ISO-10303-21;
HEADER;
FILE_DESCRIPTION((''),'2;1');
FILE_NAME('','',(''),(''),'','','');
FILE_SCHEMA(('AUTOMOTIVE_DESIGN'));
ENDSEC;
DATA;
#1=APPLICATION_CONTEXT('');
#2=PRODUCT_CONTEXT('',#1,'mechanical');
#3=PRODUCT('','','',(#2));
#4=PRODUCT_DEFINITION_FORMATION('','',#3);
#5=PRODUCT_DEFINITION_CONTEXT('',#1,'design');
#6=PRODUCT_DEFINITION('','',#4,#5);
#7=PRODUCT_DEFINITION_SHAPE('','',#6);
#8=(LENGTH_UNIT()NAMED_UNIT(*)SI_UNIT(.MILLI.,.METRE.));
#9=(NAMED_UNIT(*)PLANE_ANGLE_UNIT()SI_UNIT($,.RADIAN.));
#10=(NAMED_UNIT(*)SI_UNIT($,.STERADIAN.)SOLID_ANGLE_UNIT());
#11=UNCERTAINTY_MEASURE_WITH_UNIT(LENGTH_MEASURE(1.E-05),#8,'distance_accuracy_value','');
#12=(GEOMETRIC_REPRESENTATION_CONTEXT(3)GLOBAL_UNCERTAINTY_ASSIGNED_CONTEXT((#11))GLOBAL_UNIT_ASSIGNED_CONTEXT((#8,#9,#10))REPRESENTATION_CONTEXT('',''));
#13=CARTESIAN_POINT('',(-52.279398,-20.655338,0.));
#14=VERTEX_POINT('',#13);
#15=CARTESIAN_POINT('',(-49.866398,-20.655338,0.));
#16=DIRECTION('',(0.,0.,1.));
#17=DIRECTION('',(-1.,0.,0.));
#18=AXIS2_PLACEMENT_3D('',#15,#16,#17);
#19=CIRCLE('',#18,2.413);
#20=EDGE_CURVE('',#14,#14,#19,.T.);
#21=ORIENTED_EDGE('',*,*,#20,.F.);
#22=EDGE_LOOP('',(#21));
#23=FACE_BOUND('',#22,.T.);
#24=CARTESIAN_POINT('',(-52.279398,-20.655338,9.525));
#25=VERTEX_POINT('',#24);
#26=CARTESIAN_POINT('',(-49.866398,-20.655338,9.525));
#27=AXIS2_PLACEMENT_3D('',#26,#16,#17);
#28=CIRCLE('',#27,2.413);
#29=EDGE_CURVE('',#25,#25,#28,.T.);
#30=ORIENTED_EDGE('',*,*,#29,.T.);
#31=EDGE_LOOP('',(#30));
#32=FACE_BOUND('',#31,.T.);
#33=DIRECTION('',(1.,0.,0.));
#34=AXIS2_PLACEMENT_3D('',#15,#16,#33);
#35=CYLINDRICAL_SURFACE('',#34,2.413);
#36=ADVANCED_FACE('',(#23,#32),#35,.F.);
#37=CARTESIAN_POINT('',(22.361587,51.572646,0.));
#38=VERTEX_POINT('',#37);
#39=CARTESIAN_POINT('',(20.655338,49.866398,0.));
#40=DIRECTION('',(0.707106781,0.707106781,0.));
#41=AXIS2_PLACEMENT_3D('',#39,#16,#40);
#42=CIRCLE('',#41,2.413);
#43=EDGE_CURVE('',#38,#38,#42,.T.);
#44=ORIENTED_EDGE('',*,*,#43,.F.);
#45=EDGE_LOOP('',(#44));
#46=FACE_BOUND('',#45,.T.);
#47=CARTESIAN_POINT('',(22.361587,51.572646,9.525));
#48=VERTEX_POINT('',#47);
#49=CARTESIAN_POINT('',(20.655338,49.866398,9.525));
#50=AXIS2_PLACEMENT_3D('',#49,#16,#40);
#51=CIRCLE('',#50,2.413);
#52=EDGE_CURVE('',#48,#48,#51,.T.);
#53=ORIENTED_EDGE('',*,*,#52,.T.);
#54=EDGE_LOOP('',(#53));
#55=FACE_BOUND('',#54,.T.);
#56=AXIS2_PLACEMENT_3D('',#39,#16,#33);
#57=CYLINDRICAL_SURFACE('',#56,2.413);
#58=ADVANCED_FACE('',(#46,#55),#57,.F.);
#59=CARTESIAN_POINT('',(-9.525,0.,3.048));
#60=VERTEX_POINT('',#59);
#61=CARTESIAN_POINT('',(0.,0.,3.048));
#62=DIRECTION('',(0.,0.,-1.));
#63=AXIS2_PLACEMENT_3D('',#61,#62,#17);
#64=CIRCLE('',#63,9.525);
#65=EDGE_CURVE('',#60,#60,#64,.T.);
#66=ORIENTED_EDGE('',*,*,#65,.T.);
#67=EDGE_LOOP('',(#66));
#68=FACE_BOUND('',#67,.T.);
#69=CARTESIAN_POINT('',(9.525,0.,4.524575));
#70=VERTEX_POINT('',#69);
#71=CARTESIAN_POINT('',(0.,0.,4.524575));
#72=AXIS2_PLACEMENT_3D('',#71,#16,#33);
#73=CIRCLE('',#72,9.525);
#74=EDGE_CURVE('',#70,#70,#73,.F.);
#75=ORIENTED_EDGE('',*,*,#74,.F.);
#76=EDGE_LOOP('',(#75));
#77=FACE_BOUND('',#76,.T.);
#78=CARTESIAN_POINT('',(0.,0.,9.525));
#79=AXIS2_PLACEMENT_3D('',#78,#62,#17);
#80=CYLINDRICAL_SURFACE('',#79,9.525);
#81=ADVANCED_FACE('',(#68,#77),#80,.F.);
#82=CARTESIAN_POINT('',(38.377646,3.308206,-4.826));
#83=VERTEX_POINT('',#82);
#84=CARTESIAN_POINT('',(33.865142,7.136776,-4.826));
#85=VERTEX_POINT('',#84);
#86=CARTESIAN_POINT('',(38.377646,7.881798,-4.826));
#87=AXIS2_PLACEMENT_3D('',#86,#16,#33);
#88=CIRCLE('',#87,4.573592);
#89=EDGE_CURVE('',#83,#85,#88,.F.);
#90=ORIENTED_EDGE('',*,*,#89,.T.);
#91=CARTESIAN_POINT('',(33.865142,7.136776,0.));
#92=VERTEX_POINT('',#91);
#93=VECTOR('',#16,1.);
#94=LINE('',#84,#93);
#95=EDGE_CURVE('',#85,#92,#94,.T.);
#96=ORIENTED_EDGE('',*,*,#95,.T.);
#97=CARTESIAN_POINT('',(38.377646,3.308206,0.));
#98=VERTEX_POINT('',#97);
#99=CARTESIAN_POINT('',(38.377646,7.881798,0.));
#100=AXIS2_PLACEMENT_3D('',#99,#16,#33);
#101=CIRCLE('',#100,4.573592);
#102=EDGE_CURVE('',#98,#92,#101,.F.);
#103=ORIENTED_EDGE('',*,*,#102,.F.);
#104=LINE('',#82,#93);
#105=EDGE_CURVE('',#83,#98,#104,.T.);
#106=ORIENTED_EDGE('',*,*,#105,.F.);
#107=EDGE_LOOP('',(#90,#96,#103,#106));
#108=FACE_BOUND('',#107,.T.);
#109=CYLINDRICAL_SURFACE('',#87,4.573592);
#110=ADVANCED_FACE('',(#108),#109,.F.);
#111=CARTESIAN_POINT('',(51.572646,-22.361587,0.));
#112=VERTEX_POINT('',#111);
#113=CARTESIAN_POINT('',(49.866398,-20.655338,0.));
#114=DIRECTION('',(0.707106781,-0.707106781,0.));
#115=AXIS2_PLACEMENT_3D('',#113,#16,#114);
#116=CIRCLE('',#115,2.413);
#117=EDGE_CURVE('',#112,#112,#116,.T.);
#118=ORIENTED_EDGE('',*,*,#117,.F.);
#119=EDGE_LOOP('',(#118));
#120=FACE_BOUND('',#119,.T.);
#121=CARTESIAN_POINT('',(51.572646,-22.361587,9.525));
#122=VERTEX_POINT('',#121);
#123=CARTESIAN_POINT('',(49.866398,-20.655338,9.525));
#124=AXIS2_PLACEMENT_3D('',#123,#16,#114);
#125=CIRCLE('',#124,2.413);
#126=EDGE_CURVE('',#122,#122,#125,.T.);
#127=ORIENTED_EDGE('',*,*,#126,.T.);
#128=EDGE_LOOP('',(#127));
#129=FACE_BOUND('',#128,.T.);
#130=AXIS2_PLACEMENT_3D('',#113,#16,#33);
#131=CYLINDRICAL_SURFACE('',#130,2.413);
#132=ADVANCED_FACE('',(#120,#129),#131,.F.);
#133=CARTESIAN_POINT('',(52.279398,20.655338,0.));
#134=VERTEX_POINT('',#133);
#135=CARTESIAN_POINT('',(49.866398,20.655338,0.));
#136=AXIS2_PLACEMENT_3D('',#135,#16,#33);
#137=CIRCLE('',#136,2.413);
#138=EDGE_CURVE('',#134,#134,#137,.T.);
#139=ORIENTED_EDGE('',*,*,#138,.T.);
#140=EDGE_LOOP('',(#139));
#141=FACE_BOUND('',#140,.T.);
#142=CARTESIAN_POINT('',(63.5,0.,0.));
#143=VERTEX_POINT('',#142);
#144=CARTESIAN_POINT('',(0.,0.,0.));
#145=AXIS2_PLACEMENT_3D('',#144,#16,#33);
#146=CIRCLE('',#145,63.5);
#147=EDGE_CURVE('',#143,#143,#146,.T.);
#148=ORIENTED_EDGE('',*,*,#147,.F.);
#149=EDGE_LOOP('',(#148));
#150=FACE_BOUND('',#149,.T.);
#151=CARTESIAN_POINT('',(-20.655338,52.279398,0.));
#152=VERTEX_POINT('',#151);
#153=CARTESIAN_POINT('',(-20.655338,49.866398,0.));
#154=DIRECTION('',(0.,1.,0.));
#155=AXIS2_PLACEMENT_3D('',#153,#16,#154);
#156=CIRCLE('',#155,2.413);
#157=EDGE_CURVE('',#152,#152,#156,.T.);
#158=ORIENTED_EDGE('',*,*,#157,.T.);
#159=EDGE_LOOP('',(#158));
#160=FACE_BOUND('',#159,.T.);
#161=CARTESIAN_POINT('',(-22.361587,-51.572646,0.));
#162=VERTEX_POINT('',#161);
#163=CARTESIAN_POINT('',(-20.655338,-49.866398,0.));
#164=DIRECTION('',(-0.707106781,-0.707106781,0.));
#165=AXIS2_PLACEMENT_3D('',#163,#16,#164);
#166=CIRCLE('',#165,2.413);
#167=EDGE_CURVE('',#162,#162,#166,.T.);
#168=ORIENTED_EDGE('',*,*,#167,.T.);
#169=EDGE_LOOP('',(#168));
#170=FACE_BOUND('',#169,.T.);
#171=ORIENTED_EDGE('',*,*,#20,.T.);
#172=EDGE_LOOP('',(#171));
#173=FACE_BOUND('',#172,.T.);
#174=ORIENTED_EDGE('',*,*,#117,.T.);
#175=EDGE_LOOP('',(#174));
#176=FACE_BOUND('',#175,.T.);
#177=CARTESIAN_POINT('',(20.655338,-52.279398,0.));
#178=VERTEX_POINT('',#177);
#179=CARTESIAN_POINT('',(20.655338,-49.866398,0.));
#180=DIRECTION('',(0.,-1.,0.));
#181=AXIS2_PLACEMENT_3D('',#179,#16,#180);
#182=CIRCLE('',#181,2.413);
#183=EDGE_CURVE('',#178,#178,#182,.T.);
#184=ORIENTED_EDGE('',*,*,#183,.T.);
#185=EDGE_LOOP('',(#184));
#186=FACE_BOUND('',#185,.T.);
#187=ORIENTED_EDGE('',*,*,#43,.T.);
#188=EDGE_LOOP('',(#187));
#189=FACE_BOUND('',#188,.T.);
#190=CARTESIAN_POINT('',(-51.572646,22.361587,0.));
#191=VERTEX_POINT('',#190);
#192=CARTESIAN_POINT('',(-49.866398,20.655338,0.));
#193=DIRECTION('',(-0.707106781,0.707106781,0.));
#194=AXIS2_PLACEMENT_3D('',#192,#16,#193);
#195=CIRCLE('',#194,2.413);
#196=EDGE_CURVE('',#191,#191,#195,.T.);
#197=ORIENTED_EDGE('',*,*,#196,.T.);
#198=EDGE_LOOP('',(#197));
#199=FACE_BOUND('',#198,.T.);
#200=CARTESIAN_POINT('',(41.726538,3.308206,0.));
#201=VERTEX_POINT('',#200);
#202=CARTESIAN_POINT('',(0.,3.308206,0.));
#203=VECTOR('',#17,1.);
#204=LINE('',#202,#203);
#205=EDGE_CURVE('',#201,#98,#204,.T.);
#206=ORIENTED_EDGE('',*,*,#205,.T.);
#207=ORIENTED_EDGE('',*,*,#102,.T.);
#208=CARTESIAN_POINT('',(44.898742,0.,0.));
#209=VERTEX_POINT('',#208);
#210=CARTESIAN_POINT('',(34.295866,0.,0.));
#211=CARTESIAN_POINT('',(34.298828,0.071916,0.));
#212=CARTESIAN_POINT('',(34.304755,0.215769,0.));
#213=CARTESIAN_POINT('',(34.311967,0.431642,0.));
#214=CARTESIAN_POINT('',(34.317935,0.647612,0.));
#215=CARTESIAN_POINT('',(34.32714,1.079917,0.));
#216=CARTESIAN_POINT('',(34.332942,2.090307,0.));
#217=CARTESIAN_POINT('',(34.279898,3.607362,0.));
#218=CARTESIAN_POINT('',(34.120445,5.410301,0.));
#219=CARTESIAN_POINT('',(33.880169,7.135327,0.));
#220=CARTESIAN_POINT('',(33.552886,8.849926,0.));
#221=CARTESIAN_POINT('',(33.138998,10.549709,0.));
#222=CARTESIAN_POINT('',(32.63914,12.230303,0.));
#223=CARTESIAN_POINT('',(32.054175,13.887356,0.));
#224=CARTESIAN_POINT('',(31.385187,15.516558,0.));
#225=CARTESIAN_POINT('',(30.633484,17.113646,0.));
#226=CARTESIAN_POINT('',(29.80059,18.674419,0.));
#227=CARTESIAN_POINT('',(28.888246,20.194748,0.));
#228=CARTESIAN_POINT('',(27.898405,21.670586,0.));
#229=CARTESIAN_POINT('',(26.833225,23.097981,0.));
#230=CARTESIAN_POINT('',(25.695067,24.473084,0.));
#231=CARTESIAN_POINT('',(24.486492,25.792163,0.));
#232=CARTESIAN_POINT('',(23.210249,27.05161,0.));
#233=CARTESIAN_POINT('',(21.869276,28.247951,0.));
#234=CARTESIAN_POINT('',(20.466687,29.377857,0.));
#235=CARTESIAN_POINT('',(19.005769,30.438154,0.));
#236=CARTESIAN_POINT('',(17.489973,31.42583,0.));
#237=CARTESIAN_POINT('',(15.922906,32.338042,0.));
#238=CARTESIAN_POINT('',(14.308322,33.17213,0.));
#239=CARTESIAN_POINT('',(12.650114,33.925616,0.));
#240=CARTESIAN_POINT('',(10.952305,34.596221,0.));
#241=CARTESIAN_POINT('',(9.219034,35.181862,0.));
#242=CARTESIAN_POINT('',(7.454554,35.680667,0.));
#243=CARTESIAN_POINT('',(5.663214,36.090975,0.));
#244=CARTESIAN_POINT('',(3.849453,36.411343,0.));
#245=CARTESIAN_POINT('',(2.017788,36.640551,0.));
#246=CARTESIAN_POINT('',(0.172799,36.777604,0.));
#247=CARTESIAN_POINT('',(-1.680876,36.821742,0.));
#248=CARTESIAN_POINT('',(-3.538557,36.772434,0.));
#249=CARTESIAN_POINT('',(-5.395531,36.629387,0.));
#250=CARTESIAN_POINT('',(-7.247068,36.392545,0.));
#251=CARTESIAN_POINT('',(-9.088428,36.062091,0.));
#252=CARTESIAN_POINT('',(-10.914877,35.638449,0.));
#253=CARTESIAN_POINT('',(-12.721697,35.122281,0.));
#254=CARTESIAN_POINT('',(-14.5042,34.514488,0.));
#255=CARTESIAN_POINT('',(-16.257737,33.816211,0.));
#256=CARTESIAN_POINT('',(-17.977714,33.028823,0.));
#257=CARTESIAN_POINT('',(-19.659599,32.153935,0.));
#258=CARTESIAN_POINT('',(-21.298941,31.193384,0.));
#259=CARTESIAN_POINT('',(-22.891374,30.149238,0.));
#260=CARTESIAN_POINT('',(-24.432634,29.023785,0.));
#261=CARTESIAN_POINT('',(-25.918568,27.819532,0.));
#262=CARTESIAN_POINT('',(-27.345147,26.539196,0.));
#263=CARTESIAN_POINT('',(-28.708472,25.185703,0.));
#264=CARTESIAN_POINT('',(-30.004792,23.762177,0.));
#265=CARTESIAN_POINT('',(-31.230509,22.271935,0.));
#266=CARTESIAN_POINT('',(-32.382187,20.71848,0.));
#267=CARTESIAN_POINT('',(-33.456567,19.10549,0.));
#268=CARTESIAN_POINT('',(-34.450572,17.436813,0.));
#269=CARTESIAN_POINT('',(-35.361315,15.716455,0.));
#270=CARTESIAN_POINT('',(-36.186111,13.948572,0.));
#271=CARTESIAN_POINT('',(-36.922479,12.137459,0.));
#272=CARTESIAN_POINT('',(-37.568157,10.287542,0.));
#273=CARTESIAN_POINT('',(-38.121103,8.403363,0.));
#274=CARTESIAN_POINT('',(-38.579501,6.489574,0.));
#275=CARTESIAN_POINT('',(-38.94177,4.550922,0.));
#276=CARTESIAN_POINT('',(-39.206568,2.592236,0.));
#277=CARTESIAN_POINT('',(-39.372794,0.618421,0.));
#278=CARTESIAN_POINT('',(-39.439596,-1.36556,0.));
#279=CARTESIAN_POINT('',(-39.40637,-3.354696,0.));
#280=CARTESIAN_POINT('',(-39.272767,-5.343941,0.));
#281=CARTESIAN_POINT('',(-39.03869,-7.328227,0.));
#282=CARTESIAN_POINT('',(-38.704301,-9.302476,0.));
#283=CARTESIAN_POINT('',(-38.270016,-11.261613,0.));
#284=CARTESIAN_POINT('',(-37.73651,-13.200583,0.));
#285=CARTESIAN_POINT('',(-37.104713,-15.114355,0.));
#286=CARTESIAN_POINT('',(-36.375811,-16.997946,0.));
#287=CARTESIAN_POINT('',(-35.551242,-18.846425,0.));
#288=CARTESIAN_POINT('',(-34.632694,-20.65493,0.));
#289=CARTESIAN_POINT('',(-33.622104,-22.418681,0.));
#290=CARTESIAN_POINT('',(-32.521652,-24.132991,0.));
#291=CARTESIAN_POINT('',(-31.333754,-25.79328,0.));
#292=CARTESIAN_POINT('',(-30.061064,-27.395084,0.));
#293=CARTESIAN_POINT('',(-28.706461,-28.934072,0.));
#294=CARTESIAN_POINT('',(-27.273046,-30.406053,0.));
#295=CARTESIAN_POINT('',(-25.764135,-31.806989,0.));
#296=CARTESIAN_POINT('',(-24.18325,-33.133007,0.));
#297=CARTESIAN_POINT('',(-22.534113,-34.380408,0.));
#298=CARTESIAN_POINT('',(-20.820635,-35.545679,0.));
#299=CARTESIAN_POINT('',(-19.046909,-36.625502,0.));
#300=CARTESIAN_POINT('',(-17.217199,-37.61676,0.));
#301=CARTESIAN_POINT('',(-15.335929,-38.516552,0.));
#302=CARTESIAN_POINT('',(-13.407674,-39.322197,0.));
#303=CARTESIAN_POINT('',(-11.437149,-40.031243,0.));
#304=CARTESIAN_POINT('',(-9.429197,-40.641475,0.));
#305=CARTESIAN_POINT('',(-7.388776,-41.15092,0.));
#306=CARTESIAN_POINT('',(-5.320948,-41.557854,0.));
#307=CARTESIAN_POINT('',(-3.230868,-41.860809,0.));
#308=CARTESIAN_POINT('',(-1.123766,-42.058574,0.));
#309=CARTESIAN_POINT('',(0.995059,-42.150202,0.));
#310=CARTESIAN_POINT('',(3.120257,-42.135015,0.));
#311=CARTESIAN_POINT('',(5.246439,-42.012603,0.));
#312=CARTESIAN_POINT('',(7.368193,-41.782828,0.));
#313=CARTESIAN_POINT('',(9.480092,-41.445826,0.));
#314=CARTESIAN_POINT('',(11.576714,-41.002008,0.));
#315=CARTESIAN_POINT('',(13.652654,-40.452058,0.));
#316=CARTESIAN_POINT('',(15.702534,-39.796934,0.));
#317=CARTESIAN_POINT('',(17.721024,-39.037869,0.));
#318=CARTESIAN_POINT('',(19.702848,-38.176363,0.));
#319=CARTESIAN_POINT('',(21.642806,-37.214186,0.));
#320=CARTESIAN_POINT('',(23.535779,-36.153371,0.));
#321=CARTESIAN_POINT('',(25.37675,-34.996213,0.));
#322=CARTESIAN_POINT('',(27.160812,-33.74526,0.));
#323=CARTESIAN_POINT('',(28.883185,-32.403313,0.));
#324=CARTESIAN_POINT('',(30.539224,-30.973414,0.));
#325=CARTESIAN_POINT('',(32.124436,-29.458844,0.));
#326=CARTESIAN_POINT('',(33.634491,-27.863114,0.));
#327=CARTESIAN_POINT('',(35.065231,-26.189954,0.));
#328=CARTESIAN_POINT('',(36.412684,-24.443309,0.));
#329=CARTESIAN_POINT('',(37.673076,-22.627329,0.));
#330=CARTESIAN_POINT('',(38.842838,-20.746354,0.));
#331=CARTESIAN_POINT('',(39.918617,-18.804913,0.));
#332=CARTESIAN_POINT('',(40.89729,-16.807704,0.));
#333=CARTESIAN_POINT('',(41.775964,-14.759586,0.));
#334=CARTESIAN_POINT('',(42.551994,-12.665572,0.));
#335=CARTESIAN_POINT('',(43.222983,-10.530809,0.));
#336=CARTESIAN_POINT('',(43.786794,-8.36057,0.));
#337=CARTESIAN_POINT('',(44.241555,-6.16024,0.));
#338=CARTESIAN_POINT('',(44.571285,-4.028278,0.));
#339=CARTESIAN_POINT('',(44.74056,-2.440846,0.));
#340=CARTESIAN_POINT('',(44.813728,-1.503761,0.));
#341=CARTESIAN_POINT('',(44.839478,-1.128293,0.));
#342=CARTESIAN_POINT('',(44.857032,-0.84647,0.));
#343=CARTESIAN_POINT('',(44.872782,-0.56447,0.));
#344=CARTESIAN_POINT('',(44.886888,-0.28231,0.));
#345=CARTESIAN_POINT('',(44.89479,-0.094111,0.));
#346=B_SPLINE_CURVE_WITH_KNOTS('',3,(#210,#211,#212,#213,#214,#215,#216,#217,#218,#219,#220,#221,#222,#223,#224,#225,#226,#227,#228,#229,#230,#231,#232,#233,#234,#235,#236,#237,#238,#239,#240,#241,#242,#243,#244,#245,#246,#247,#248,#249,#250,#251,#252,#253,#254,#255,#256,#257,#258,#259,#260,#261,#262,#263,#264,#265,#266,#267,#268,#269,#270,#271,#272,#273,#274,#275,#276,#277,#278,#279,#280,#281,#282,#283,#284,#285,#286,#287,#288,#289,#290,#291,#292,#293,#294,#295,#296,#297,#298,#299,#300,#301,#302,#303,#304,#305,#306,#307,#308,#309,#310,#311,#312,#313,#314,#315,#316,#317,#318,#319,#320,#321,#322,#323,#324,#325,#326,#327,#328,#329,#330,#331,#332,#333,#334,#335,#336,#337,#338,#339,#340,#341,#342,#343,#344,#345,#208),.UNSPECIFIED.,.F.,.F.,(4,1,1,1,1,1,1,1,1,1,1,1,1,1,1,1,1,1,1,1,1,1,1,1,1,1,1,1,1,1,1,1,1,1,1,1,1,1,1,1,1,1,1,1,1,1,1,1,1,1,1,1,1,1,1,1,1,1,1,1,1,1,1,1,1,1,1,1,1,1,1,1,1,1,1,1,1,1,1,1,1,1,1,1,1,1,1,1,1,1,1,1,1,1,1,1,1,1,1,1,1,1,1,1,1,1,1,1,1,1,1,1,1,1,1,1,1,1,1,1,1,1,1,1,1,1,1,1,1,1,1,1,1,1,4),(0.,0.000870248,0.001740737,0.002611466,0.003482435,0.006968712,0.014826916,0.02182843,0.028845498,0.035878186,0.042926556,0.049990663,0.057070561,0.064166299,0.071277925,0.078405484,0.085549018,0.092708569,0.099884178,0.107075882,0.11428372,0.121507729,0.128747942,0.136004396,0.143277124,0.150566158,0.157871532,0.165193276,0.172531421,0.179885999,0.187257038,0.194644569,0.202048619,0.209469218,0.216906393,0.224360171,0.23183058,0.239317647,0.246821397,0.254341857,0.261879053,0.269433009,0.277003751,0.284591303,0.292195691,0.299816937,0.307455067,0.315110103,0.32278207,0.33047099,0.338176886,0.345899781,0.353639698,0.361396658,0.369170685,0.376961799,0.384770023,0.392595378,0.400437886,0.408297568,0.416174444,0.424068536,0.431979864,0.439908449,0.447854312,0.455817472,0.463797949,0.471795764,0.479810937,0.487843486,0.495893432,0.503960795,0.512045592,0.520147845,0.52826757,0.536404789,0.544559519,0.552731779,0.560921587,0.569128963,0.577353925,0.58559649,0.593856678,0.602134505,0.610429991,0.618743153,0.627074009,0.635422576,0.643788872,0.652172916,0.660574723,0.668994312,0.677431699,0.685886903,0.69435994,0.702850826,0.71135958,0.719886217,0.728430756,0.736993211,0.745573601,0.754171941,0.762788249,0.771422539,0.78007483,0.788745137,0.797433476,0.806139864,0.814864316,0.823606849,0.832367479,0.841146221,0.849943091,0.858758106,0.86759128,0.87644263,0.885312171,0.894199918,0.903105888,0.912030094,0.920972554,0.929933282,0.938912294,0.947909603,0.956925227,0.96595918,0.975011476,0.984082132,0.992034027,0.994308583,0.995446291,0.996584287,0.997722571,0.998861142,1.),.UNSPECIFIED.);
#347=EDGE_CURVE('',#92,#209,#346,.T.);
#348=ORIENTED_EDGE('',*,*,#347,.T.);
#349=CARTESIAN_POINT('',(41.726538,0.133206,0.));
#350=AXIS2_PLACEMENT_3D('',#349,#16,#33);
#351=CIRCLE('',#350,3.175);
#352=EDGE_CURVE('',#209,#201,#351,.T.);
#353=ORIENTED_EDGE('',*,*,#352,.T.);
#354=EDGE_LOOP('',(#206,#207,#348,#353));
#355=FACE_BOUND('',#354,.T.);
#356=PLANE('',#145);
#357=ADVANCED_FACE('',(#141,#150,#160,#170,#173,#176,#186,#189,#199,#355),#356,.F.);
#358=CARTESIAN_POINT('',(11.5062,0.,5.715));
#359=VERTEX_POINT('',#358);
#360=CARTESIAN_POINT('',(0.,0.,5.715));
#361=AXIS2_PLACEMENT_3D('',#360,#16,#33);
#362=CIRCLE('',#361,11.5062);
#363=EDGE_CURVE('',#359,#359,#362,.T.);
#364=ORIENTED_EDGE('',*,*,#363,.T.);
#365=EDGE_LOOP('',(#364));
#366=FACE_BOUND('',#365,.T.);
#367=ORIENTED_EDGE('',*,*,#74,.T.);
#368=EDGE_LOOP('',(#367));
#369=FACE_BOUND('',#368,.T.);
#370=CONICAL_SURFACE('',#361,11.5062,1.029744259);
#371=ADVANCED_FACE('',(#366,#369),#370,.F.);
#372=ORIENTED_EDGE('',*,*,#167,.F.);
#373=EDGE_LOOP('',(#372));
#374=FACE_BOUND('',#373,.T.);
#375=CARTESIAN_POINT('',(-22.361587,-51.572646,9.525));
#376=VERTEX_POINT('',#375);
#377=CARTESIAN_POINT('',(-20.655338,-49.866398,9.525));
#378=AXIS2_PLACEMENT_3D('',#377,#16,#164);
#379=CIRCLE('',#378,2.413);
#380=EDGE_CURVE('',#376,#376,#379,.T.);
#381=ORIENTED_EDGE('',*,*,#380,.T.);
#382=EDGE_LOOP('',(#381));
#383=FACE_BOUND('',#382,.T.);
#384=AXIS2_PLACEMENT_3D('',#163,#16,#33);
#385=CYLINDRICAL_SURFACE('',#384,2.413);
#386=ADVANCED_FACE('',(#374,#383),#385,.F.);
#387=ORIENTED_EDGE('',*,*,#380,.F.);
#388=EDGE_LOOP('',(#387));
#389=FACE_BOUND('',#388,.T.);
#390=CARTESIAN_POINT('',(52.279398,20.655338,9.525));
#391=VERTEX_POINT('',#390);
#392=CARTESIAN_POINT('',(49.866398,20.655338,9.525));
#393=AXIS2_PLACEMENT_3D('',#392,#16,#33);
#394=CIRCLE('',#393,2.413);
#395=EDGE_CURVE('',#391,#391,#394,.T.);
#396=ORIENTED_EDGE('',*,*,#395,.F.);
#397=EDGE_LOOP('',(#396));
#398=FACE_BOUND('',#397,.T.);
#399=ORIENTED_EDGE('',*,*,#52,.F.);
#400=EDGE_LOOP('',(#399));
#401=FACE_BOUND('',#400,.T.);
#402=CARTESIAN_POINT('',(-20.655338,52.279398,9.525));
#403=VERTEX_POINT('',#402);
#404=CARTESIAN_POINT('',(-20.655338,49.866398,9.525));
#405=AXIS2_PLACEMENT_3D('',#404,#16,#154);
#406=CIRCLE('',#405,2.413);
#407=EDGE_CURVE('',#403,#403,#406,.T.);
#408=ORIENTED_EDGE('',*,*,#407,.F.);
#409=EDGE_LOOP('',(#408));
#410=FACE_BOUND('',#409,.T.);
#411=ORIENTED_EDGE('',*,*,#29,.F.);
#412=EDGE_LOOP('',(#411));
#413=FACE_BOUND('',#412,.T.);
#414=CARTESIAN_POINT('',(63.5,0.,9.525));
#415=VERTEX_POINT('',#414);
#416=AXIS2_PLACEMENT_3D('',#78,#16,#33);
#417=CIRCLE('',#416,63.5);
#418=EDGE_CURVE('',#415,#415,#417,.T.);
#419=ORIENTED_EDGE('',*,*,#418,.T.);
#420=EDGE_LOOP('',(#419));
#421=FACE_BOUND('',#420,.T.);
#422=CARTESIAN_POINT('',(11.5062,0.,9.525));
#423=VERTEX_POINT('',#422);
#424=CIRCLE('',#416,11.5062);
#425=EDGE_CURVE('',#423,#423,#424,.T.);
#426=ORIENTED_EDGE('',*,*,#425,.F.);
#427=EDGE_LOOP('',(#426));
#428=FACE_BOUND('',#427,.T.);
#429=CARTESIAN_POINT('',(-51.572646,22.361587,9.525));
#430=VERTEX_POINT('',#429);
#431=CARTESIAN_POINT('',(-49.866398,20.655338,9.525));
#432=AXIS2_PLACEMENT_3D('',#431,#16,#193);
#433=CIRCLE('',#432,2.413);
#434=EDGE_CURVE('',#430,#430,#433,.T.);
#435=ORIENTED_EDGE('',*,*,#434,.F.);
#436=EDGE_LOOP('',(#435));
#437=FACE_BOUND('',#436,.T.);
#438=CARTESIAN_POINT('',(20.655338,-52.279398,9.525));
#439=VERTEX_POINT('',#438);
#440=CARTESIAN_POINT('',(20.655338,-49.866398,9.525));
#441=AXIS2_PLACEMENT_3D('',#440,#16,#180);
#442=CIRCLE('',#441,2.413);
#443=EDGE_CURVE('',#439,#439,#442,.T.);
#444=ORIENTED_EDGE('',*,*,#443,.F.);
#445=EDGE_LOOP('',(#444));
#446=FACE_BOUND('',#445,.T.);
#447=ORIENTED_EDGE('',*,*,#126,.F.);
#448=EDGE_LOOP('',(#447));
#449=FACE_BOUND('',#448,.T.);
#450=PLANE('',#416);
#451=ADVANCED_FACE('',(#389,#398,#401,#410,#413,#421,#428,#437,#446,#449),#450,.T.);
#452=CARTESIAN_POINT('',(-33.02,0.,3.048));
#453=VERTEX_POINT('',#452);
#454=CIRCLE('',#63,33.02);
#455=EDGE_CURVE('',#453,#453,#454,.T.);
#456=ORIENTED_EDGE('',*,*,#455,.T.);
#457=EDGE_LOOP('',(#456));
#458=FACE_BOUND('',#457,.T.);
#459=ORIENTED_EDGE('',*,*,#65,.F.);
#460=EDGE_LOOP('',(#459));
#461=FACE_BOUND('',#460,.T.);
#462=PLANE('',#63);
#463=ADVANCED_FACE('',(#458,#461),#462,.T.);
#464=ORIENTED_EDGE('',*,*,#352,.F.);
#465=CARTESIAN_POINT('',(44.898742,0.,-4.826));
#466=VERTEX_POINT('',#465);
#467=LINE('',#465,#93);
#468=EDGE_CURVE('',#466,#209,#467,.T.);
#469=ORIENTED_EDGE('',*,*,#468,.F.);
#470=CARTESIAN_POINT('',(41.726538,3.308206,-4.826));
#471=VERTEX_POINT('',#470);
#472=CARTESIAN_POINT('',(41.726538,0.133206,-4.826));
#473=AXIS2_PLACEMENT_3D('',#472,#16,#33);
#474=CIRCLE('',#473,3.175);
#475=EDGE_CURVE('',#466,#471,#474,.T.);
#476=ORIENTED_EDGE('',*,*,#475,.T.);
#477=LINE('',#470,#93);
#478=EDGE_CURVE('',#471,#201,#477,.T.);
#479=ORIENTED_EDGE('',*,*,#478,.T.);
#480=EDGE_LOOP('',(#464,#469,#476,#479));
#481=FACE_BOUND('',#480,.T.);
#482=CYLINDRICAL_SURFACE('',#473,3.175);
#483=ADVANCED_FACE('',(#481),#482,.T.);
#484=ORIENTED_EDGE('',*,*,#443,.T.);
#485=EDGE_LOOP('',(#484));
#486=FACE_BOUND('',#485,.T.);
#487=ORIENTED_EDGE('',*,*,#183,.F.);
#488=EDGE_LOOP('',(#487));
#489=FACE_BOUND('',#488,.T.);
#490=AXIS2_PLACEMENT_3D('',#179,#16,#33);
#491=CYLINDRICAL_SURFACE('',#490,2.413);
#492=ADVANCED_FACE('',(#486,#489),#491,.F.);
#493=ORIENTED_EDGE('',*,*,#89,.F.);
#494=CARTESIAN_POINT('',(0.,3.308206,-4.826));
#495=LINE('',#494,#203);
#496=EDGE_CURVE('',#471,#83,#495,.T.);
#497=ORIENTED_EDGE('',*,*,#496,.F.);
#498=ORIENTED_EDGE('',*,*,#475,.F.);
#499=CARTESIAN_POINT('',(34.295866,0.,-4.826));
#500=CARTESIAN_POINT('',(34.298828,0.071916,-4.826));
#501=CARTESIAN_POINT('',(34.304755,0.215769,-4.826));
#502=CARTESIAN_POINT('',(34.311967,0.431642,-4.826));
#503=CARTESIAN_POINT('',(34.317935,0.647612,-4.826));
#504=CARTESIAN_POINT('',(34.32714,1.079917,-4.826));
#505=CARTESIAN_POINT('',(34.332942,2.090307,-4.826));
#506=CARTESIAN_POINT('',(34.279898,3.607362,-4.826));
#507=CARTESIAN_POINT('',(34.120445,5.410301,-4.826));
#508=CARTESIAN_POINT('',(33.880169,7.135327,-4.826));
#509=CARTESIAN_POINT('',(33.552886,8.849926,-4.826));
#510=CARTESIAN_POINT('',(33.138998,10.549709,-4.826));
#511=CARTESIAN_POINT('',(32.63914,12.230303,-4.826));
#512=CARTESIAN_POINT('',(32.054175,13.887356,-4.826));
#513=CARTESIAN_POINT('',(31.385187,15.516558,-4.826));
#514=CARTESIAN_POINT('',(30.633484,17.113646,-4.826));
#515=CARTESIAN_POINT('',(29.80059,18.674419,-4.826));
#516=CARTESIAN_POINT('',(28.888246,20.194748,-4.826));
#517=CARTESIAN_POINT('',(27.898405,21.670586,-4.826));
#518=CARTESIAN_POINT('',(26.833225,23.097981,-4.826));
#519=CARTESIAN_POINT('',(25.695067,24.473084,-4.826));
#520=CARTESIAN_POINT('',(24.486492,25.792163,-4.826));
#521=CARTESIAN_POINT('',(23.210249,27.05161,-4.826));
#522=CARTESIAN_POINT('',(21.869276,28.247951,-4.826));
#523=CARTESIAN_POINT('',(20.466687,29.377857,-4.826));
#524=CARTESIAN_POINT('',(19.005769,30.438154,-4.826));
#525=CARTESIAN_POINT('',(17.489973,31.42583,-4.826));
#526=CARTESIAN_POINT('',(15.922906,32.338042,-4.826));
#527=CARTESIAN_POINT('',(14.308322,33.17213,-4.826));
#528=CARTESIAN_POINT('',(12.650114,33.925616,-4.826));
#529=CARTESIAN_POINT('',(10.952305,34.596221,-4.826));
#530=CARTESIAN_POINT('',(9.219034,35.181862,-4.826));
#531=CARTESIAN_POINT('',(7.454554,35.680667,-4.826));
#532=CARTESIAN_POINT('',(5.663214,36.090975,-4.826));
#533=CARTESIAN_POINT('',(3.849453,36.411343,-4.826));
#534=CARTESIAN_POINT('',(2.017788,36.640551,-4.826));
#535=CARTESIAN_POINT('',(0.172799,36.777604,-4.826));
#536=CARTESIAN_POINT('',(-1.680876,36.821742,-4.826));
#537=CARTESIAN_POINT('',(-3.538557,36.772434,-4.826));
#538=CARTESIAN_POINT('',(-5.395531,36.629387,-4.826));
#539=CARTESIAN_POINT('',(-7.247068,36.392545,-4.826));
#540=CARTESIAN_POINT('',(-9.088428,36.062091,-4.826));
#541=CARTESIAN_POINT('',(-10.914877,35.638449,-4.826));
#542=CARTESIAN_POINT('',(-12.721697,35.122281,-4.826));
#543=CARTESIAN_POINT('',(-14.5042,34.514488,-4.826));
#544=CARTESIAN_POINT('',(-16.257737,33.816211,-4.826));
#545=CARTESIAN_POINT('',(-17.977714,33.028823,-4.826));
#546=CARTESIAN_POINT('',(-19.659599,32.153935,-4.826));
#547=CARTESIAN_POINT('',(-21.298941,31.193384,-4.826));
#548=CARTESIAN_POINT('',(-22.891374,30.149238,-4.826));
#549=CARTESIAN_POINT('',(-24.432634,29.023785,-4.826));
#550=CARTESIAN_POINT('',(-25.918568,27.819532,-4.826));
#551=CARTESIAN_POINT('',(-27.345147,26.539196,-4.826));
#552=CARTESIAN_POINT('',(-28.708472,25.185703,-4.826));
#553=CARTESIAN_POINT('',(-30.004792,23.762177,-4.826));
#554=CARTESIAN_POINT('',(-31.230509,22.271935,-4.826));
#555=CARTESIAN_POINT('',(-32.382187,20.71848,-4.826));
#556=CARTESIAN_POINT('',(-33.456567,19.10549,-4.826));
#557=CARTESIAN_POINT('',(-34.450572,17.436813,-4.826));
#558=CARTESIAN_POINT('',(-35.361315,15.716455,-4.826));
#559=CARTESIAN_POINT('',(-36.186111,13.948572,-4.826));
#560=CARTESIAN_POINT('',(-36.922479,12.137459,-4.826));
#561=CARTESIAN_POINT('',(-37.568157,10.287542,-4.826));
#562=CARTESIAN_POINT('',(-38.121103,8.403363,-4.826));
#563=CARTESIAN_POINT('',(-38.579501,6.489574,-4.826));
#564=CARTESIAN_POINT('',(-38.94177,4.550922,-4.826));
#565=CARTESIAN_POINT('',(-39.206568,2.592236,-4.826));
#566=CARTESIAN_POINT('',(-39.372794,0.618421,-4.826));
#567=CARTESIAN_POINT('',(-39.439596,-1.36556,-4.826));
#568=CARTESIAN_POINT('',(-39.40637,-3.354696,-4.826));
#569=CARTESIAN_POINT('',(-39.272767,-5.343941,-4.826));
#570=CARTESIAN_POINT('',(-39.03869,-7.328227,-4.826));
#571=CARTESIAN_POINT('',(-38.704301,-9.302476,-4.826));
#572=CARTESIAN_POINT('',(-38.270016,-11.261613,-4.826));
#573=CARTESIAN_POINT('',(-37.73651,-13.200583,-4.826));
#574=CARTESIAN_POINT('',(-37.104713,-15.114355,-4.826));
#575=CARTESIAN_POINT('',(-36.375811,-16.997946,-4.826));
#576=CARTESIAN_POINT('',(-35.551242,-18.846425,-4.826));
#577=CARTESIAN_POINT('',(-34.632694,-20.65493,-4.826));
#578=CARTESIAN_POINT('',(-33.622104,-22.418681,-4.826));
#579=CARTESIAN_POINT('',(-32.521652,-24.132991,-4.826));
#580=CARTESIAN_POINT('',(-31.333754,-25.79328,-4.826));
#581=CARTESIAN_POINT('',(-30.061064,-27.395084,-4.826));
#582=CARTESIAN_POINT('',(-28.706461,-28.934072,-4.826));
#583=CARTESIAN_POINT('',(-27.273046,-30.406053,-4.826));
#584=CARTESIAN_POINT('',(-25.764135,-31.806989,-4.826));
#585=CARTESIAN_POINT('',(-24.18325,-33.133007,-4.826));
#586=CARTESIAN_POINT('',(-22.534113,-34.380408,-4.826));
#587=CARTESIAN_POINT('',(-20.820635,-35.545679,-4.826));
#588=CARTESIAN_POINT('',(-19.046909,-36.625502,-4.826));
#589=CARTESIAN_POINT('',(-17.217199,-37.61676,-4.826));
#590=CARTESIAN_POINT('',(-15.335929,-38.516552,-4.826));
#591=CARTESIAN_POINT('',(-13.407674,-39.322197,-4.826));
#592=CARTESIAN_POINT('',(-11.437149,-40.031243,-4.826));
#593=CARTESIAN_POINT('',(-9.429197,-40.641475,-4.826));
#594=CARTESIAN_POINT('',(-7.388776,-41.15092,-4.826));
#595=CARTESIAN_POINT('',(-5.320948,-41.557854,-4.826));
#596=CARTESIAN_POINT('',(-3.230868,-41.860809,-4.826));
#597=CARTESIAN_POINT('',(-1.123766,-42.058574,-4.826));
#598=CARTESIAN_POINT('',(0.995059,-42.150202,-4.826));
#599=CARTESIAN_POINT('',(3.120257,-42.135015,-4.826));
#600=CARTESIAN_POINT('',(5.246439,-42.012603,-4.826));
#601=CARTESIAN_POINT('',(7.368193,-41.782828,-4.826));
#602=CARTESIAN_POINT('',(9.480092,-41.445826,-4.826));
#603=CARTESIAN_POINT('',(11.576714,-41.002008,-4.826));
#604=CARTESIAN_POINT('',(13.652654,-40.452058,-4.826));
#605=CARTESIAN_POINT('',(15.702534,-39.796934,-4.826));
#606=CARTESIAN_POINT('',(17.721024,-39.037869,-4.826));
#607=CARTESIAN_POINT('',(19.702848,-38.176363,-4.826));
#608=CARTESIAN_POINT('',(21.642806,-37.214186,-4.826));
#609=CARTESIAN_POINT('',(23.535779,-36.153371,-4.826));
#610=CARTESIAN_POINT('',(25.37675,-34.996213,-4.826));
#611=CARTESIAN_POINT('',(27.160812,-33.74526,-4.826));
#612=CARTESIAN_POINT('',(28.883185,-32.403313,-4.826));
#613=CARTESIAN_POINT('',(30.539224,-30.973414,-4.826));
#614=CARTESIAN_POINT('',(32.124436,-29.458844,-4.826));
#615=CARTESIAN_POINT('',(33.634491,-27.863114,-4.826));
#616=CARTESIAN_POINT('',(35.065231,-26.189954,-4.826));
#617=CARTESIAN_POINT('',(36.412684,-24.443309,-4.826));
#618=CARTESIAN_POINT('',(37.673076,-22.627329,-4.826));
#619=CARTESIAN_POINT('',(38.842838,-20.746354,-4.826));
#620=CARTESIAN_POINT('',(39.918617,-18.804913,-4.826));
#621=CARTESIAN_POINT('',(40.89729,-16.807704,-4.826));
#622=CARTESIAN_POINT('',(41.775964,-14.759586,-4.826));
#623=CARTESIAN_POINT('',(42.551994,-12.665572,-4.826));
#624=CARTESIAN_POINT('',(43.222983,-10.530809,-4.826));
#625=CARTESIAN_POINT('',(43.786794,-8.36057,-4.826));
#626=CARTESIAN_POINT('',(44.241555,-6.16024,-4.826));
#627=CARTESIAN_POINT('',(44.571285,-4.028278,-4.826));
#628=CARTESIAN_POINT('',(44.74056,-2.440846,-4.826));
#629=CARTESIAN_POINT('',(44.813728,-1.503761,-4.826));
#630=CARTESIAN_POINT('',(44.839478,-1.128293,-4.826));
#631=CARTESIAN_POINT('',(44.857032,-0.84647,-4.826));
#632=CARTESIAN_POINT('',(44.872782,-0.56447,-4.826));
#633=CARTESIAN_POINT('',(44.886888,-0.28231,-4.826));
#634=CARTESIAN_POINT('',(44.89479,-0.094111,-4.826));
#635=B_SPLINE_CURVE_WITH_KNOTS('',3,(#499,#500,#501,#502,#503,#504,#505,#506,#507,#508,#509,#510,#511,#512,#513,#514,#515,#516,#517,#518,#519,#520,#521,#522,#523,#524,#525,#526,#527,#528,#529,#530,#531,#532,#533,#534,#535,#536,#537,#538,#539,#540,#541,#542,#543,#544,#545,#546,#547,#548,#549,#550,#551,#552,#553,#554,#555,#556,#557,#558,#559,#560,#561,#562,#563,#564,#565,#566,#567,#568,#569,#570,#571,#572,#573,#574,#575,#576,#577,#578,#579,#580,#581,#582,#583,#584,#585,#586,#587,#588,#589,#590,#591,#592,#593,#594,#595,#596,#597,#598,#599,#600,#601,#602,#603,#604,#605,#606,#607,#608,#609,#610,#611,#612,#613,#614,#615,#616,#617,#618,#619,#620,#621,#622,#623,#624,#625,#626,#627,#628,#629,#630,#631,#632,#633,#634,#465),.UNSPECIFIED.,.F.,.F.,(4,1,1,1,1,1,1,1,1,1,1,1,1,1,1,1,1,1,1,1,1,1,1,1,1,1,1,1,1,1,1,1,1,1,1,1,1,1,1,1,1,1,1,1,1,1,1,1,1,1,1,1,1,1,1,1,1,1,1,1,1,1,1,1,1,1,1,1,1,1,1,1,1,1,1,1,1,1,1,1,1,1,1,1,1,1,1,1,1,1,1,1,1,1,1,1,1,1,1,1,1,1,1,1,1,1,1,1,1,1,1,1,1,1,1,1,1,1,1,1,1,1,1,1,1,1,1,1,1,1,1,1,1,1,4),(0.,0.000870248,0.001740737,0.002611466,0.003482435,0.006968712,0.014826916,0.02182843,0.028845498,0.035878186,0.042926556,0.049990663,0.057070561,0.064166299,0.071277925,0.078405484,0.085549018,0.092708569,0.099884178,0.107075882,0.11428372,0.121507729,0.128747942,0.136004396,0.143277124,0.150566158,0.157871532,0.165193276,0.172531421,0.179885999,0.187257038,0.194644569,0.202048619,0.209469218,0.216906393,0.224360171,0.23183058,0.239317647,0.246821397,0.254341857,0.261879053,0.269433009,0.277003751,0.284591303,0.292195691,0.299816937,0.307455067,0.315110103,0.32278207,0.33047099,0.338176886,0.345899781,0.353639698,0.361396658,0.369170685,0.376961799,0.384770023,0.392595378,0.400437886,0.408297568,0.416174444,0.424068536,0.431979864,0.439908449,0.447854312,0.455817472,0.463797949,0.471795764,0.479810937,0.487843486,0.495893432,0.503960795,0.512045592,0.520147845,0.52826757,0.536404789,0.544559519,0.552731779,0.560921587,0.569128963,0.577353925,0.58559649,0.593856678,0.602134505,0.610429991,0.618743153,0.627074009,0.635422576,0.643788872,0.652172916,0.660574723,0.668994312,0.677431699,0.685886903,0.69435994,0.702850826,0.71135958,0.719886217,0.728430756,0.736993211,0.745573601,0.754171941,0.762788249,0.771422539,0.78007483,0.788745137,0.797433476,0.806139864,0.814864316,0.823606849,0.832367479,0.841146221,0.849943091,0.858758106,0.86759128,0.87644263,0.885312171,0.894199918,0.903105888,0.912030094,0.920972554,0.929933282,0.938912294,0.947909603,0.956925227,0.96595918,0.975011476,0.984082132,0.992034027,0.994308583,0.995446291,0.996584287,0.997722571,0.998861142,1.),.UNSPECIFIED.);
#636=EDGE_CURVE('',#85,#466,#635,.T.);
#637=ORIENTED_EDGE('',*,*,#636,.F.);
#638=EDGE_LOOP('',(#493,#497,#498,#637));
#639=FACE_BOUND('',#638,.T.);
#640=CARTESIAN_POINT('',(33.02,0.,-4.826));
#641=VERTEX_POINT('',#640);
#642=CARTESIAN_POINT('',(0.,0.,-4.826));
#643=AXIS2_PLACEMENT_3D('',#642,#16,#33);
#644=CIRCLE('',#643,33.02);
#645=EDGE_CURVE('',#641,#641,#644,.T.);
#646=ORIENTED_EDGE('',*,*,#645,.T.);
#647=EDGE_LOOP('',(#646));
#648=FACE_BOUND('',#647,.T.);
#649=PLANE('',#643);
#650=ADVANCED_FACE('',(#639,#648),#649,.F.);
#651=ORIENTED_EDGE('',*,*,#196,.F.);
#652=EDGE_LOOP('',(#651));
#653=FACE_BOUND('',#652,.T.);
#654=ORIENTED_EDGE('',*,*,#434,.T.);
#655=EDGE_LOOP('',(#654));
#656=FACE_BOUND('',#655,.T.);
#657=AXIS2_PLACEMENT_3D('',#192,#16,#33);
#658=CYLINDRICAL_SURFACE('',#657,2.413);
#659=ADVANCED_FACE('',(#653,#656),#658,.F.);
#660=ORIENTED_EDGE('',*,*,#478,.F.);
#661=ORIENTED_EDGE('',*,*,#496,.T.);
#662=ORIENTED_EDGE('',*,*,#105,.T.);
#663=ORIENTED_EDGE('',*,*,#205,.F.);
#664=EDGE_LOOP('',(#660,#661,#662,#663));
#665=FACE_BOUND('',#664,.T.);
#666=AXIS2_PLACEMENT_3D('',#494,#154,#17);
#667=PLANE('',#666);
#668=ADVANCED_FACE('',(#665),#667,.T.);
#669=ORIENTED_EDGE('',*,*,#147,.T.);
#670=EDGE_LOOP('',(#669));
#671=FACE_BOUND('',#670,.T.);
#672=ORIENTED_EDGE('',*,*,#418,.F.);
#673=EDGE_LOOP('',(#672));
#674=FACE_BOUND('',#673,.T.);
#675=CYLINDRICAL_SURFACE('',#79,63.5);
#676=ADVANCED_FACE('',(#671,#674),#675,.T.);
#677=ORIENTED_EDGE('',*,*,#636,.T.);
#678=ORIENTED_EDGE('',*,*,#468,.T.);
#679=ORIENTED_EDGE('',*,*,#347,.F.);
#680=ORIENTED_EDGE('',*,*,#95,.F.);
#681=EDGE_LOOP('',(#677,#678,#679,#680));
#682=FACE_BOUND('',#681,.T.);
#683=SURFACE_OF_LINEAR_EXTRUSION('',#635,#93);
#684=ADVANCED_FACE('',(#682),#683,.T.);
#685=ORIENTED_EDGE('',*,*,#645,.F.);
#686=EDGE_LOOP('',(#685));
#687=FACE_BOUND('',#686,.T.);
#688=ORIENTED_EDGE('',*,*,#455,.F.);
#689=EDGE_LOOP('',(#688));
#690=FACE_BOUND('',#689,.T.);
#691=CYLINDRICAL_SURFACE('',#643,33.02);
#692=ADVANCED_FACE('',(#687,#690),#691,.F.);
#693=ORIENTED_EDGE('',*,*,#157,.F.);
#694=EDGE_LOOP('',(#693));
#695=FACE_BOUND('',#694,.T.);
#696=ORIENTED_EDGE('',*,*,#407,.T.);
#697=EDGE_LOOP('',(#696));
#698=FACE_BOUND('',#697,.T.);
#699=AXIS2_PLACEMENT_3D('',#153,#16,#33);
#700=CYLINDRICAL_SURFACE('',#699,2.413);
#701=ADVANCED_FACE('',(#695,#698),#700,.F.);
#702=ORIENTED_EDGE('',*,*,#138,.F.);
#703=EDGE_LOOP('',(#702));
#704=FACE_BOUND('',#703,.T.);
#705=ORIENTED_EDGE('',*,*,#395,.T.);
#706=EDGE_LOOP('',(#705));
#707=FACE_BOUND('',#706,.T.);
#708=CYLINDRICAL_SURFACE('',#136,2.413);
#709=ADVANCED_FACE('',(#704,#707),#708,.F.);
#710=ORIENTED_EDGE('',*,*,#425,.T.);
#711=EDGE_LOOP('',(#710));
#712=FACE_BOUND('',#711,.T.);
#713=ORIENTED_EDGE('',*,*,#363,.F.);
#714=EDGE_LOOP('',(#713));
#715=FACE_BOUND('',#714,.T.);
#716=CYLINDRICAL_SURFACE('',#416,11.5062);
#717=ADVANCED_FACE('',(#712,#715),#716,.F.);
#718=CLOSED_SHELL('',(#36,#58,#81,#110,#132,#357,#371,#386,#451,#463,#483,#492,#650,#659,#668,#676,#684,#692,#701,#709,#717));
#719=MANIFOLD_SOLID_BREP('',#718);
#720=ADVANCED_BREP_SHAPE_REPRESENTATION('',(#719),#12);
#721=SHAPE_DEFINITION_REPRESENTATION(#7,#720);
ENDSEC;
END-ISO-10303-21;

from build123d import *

# Parameters (mm, degrees)
SKETCH1_R                         = 63.5
SKETCH1_R_2                       = 9.525
BOSS_EXTRUDE1_DEPTH               = 9.525
SKETCH4_R                         = 2.413
CUT_EXTRUDE1_DEPTH                = 10.525
CIRPATTERN1_COUNT                 = 8
SKETCH7_R                         = 33.02
BOSS_EXTRUDE4_DEPTH               = 4.826
SKETCH9_R                         = 33.02
CUT_EXTRUDE2_DEPTH                = 3.048
PIPE_TAP_DRILL_FOR_3_4_TAP4_D     = 23.0124
PIPE_TAP_DRILL_FOR_3_4_TAP4_DEPTH = 3.81
PIPE_TAP_DRILL_FOR_3_4_TAP4_TIP   = 6.913622455


with BuildPart() as part:
    # Sketch1 → Boss-Extrude1 (new body)
    with BuildSketch(Plane.XY):
        Circle(SKETCH1_R)
        Circle(SKETCH1_R_2, mode=Mode.SUBTRACT)
    extrude(amount=BOSS_EXTRUDE1_DEPTH)

    # Sketch4 → Cut-Extrude1 (cut, through all)
    with BuildSketch(Plane.XY.offset(9.525)):
        with Locations((49.866397767, 20.655338262)):
            Circle(SKETCH4_R)
    cut_extrude1 = extrude(amount=-CUT_EXTRUDE1_DEPTH, mode=Mode.SUBTRACT)

    # CirPattern1: Cut-Extrude1 ×8 about axis
    cirpattern1_axis = Axis((0, 0, 0), (0, 0, 1))
    for i in range(1, CIRPATTERN1_COUNT):
        add(cut_extrude1.rotate(cirpattern1_axis, i * 360 / CIRPATTERN1_COUNT), mode=Mode.SUBTRACT)

    # Sketch7 → Boss-Extrude4 (add)
    with BuildSketch(Plane.XY):
        with BuildLine():
            ThreePointArc((44.898742199, 0), (44.018213285, 2.330669915), (41.72653773, 3.308205888))
            Line((41.72653773, 3.308205888), (38.377645632, 3.308205888))
            ThreePointArc((38.377645632, 3.308205888), (36.132581602, 2.378269918), (35.202645632, 0.133205888))
            ThreePointArc((35.202645632, 0.133205888), (34.829644744, -0.48063442), (34.295865632, 0))
            add(Edge.make_bspline(
                [(34.295865632, 0), (34.29882834, 0.071916436), (34.304754577, 0.21576926), (34.311966888, 0.431642324), (34.317934755, 0.647612083), (34.327139988, 1.079917114), (34.332942166, 2.090306576), (34.279898225, 3.607362054), (34.120445155, 5.41030125), (33.960201682, 6.560746683), (33.865422793, 7.135076209), (33.865142183, 7.136775827)],
                knots=[0, 0, 0, 0, 0.000870248, 0.001740737, 0.002611466, 0.003482435, 0.006968712, 0.014826916, 0.02182843, 0.028845498, 0.028866325, 0.028866325, 0.028866325, 0.028866325], degree=3))
            add(Edge.make_bspline(
                [(33.865142183, 7.136775827), (33.7706713, 7.708973751), (33.552478291, 8.851599937), (33.138997804, 10.54970943), (32.639140351, 12.230302519), (32.054174895, 13.887355713), (31.385187056, 15.516557503), (30.633483645, 17.113645751), (29.800589951, 18.674419055), (28.8882464, 20.194747988), (27.898404875, 21.670586138), (26.833224521, 23.097980967), (25.695067067, 24.473084443), (24.486491635, 25.79216345), (23.210249051, 27.051609932), (21.869275652, 28.247950753), (20.466686605, 29.377857252), (19.005768742, 30.438154464), (17.489972932, 31.425829986), (15.922906004, 32.338042467), (14.30832223, 33.172129685), (12.650114403, 33.925616212), (10.95230451, 34.596220626), (9.219034045, 35.18186226), (7.454553956, 35.680667464), (5.663214286, 36.090975363), (3.849453494, 36.411343101), (2.017787512, 36.640550541), (0.172798549, 36.777604421), (-1.680876324, 36.82174194), (-3.538556782, 36.772433779), (-5.395531021, 36.629386524), (-7.247067665, 36.392544506), (-9.088427776, 36.062091031), (-10.914876942, 35.638449008), (-12.721697408, 35.122280961), (-14.504200214, 34.514488429), (-16.257737325, 33.816210747), (-17.977713699, 33.028823219), (-19.659599284, 32.153934663), (-21.298940898, 31.193384362), (-22.891373965, 30.149238397), (-24.43263408, 29.02378539), (-25.918568367, 27.819531655), (-27.345146601, 26.539195761), (-28.708472073, 25.185702541), (-30.004792148, 23.762176529), (-31.230508517, 22.271934869), (-32.382187085, 20.718479685), (-33.456567491, 19.105489956), (-34.450572223, 17.436812889), (-35.361315302, 15.716454831), (-36.186110516, 13.948571725), (-36.92247918, 12.137459144), (-37.568157395, 10.287541924), (-38.121102788, 8.403363415), (-38.579500717, 6.489574383), (-38.941769921, 4.550921586), (-39.206567586, 2.592236057), (-39.372793836, 0.618421113), (-39.439595611, -1.36555987), (-39.406369933, -3.354695889), (-39.272766542, -5.343940927), (-39.038689903, -7.328226707), (-38.704300556, -9.302475561), (-38.270015827, -11.261613379), (-37.736509879, -13.200582609), (-37.104713104, -15.11435526), (-36.375810853, -16.997945903), (-35.551241515, -18.846424601), (-34.632693929, -20.654929769), (-33.622104149, -22.418680905), (-32.521651558, -24.132991168), (-31.333754343, -25.793279776), (-30.061064337, -27.395084183), (-28.706461239, -28.934071999), (-27.273046228, -30.406052641), (-25.764134977, -31.806988658), (-24.18325009, -33.133006716), (-22.534112978, -34.380408214), (-20.820635184, -35.545679488), (-19.046909189, -36.625501594), (-17.217198713, -37.616759627), (-15.335928538, -38.516551562), (-13.407673866, -39.322196576), (-11.437149261, -40.031242854), (-9.429197172, -40.641474829), (-7.388776087, -41.15091985), (-5.32094834, -41.557854256), (-3.230867597, -41.86080884), (-1.123766056, -42.058573678), (0.995058608, -42.150202316), (3.120256518, -42.135015304), (5.246439066, -42.01260305), (7.368192535, -41.782828005), (9.480091844, -41.445826152), (11.576714375, -41.002007803), (13.652653862, -40.452057696), (15.702534288, -39.796934391), (17.72102376, -39.037868953), (19.702848338, -38.176362944), (21.642805765, -37.214185701), (23.535779073, -36.153370925), (25.376750026, -34.996212572), (27.16081237, -33.745260064), (28.883184839, -32.403312824), (30.539223912, -30.973414146), (32.12443625, -29.458844418), (33.634490817, -27.863113704), (35.065230621, -26.189953715), (36.412684063, -24.44330917), (37.673075861, -22.62732858), (38.842837509, -20.746354475), (39.91861725, -18.804913085), (40.897289536, -16.807703518), (41.775963949, -14.759586443), (42.55199355, -12.665572318), (43.22298264, -10.530809183), (43.786793912, -8.360570051), (44.241554967, -6.16023993), (44.571284542, -4.028278167), (44.740560267, -2.440845712), (44.813728039, -1.50376068), (44.839477521, -1.128293226), (44.857032226, -0.846470241), (44.872782179, -0.564469795), (44.886887576, -0.282309503), (44.894790326, -0.094111086), (44.898742199, 0)],
                knots=[0.028866325, 0.028866325, 0.028866325, 0.028866325, 0.035878186, 0.042926556, 0.049990663, 0.057070561, 0.064166299, 0.071277925, 0.078405484, 0.085549018, 0.092708569, 0.099884178, 0.107075882, 0.11428372, 0.121507729, 0.128747942, 0.136004396, 0.143277124, 0.150566158, 0.157871532, 0.165193276, 0.172531421, 0.179885999, 0.187257038, 0.194644569, 0.202048619, 0.209469218, 0.216906393, 0.224360171, 0.23183058, 0.239317647, 0.246821397, 0.254341857, 0.261879053, 0.269433009, 0.277003751, 0.284591303, 0.292195691, 0.299816937, 0.307455067, 0.315110103, 0.32278207, 0.33047099, 0.338176886, 0.345899781, 0.353639698, 0.361396658, 0.369170685, 0.376961799, 0.384770023, 0.392595378, 0.400437886, 0.408297568, 0.416174444, 0.424068536, 0.431979864, 0.439908449, 0.447854312, 0.455817472, 0.463797949, 0.471795764, 0.479810937, 0.487843486, 0.495893432, 0.503960795, 0.512045592, 0.520147845, 0.52826757, 0.536404789, 0.544559519, 0.552731779, 0.560921587, 0.569128963, 0.577353925, 0.58559649, 0.593856678, 0.602134505, 0.610429991, 0.618743153, 0.627074009, 0.635422576, 0.643788872, 0.652172916, 0.660574723, 0.668994312, 0.677431699, 0.685886903, 0.69435994, 0.702850826, 0.71135958, 0.719886217, 0.728430756, 0.736993211, 0.745573601, 0.754171941, 0.762788249, 0.771422539, 0.78007483, 0.788745137, 0.797433476, 0.806139864, 0.814864316, 0.823606849, 0.832367479, 0.841146221, 0.849943091, 0.858758106, 0.86759128, 0.87644263, 0.885312171, 0.894199918, 0.903105888, 0.912030094, 0.920972554, 0.929933282, 0.938912294, 0.947909603, 0.956925227, 0.96595918, 0.975011476, 0.984082132, 0.992034027, 0.994308583, 0.995446291, 0.996584287, 0.997722571, 0.998861142, 1, 1, 1, 1], degree=3))
        make_face()
        Circle(SKETCH7_R, mode=Mode.SUBTRACT)
        with BuildLine():
            ThreePointArc((35.202645632, 0.133205888), (36.132581602, 2.378269918), (38.377645632, 3.308205888))
            ThreePointArc((38.377645632, 3.308205888), (35.418733874, 4.394308044), (33.865142183, 7.136775827))
            add(Edge.make_bspline(
                [(34.295865632, 0), (34.29882834, 0.071916436), (34.304754577, 0.21576926), (34.311966888, 0.431642324), (34.317934755, 0.647612083), (34.327139988, 1.079917114), (34.332942166, 2.090306576), (34.279898225, 3.607362054), (34.120445155, 5.41030125), (33.960201682, 6.560746683), (33.865422793, 7.135076209), (33.865142183, 7.136775827)],
                knots=[0, 0, 0, 0, 0.000870248, 0.001740737, 0.002611466, 0.003482435, 0.006968712, 0.014826916, 0.02182843, 0.028845498, 0.028866325, 0.028866325, 0.028866325, 0.028866325], degree=3))
            ThreePointArc((34.295865632, 0), (34.829644744, -0.48063442), (35.202645632, 0.133205888))
        make_face()
    extrude(amount=-BOSS_EXTRUDE4_DEPTH)

    # Sketch9 → Cut-Extrude2 (cut)
    with BuildSketch(Plane(origin=(0, 0, 0), x_dir=(-1, 0, 0), z_dir=(0, 0, -1))):
        Circle(SKETCH9_R)
    extrude(amount=-CUT_EXTRUDE2_DEPTH, mode=Mode.SUBTRACT)

    # Pipe Tap Drill for 3/4 Tap4
    with Locations(Plane.XY.offset(9.525)):
        with Locations((0, 0)):
            Hole(PIPE_TAP_DRILL_FOR_3_4_TAP4_D / 2, depth=PIPE_TAP_DRILL_FOR_3_4_TAP4_DEPTH)
            with Locations((0, 0, -(PIPE_TAP_DRILL_FOR_3_4_TAP4_DEPTH + PIPE_TAP_DRILL_FOR_3_4_TAP4_TIP / 2))):  # 118° drill point
                Cone(0, PIPE_TAP_DRILL_FOR_3_4_TAP4_D / 2, PIPE_TAP_DRILL_FOR_3_4_TAP4_TIP, mode=Mode.SUBTRACT)


solid = part.part
